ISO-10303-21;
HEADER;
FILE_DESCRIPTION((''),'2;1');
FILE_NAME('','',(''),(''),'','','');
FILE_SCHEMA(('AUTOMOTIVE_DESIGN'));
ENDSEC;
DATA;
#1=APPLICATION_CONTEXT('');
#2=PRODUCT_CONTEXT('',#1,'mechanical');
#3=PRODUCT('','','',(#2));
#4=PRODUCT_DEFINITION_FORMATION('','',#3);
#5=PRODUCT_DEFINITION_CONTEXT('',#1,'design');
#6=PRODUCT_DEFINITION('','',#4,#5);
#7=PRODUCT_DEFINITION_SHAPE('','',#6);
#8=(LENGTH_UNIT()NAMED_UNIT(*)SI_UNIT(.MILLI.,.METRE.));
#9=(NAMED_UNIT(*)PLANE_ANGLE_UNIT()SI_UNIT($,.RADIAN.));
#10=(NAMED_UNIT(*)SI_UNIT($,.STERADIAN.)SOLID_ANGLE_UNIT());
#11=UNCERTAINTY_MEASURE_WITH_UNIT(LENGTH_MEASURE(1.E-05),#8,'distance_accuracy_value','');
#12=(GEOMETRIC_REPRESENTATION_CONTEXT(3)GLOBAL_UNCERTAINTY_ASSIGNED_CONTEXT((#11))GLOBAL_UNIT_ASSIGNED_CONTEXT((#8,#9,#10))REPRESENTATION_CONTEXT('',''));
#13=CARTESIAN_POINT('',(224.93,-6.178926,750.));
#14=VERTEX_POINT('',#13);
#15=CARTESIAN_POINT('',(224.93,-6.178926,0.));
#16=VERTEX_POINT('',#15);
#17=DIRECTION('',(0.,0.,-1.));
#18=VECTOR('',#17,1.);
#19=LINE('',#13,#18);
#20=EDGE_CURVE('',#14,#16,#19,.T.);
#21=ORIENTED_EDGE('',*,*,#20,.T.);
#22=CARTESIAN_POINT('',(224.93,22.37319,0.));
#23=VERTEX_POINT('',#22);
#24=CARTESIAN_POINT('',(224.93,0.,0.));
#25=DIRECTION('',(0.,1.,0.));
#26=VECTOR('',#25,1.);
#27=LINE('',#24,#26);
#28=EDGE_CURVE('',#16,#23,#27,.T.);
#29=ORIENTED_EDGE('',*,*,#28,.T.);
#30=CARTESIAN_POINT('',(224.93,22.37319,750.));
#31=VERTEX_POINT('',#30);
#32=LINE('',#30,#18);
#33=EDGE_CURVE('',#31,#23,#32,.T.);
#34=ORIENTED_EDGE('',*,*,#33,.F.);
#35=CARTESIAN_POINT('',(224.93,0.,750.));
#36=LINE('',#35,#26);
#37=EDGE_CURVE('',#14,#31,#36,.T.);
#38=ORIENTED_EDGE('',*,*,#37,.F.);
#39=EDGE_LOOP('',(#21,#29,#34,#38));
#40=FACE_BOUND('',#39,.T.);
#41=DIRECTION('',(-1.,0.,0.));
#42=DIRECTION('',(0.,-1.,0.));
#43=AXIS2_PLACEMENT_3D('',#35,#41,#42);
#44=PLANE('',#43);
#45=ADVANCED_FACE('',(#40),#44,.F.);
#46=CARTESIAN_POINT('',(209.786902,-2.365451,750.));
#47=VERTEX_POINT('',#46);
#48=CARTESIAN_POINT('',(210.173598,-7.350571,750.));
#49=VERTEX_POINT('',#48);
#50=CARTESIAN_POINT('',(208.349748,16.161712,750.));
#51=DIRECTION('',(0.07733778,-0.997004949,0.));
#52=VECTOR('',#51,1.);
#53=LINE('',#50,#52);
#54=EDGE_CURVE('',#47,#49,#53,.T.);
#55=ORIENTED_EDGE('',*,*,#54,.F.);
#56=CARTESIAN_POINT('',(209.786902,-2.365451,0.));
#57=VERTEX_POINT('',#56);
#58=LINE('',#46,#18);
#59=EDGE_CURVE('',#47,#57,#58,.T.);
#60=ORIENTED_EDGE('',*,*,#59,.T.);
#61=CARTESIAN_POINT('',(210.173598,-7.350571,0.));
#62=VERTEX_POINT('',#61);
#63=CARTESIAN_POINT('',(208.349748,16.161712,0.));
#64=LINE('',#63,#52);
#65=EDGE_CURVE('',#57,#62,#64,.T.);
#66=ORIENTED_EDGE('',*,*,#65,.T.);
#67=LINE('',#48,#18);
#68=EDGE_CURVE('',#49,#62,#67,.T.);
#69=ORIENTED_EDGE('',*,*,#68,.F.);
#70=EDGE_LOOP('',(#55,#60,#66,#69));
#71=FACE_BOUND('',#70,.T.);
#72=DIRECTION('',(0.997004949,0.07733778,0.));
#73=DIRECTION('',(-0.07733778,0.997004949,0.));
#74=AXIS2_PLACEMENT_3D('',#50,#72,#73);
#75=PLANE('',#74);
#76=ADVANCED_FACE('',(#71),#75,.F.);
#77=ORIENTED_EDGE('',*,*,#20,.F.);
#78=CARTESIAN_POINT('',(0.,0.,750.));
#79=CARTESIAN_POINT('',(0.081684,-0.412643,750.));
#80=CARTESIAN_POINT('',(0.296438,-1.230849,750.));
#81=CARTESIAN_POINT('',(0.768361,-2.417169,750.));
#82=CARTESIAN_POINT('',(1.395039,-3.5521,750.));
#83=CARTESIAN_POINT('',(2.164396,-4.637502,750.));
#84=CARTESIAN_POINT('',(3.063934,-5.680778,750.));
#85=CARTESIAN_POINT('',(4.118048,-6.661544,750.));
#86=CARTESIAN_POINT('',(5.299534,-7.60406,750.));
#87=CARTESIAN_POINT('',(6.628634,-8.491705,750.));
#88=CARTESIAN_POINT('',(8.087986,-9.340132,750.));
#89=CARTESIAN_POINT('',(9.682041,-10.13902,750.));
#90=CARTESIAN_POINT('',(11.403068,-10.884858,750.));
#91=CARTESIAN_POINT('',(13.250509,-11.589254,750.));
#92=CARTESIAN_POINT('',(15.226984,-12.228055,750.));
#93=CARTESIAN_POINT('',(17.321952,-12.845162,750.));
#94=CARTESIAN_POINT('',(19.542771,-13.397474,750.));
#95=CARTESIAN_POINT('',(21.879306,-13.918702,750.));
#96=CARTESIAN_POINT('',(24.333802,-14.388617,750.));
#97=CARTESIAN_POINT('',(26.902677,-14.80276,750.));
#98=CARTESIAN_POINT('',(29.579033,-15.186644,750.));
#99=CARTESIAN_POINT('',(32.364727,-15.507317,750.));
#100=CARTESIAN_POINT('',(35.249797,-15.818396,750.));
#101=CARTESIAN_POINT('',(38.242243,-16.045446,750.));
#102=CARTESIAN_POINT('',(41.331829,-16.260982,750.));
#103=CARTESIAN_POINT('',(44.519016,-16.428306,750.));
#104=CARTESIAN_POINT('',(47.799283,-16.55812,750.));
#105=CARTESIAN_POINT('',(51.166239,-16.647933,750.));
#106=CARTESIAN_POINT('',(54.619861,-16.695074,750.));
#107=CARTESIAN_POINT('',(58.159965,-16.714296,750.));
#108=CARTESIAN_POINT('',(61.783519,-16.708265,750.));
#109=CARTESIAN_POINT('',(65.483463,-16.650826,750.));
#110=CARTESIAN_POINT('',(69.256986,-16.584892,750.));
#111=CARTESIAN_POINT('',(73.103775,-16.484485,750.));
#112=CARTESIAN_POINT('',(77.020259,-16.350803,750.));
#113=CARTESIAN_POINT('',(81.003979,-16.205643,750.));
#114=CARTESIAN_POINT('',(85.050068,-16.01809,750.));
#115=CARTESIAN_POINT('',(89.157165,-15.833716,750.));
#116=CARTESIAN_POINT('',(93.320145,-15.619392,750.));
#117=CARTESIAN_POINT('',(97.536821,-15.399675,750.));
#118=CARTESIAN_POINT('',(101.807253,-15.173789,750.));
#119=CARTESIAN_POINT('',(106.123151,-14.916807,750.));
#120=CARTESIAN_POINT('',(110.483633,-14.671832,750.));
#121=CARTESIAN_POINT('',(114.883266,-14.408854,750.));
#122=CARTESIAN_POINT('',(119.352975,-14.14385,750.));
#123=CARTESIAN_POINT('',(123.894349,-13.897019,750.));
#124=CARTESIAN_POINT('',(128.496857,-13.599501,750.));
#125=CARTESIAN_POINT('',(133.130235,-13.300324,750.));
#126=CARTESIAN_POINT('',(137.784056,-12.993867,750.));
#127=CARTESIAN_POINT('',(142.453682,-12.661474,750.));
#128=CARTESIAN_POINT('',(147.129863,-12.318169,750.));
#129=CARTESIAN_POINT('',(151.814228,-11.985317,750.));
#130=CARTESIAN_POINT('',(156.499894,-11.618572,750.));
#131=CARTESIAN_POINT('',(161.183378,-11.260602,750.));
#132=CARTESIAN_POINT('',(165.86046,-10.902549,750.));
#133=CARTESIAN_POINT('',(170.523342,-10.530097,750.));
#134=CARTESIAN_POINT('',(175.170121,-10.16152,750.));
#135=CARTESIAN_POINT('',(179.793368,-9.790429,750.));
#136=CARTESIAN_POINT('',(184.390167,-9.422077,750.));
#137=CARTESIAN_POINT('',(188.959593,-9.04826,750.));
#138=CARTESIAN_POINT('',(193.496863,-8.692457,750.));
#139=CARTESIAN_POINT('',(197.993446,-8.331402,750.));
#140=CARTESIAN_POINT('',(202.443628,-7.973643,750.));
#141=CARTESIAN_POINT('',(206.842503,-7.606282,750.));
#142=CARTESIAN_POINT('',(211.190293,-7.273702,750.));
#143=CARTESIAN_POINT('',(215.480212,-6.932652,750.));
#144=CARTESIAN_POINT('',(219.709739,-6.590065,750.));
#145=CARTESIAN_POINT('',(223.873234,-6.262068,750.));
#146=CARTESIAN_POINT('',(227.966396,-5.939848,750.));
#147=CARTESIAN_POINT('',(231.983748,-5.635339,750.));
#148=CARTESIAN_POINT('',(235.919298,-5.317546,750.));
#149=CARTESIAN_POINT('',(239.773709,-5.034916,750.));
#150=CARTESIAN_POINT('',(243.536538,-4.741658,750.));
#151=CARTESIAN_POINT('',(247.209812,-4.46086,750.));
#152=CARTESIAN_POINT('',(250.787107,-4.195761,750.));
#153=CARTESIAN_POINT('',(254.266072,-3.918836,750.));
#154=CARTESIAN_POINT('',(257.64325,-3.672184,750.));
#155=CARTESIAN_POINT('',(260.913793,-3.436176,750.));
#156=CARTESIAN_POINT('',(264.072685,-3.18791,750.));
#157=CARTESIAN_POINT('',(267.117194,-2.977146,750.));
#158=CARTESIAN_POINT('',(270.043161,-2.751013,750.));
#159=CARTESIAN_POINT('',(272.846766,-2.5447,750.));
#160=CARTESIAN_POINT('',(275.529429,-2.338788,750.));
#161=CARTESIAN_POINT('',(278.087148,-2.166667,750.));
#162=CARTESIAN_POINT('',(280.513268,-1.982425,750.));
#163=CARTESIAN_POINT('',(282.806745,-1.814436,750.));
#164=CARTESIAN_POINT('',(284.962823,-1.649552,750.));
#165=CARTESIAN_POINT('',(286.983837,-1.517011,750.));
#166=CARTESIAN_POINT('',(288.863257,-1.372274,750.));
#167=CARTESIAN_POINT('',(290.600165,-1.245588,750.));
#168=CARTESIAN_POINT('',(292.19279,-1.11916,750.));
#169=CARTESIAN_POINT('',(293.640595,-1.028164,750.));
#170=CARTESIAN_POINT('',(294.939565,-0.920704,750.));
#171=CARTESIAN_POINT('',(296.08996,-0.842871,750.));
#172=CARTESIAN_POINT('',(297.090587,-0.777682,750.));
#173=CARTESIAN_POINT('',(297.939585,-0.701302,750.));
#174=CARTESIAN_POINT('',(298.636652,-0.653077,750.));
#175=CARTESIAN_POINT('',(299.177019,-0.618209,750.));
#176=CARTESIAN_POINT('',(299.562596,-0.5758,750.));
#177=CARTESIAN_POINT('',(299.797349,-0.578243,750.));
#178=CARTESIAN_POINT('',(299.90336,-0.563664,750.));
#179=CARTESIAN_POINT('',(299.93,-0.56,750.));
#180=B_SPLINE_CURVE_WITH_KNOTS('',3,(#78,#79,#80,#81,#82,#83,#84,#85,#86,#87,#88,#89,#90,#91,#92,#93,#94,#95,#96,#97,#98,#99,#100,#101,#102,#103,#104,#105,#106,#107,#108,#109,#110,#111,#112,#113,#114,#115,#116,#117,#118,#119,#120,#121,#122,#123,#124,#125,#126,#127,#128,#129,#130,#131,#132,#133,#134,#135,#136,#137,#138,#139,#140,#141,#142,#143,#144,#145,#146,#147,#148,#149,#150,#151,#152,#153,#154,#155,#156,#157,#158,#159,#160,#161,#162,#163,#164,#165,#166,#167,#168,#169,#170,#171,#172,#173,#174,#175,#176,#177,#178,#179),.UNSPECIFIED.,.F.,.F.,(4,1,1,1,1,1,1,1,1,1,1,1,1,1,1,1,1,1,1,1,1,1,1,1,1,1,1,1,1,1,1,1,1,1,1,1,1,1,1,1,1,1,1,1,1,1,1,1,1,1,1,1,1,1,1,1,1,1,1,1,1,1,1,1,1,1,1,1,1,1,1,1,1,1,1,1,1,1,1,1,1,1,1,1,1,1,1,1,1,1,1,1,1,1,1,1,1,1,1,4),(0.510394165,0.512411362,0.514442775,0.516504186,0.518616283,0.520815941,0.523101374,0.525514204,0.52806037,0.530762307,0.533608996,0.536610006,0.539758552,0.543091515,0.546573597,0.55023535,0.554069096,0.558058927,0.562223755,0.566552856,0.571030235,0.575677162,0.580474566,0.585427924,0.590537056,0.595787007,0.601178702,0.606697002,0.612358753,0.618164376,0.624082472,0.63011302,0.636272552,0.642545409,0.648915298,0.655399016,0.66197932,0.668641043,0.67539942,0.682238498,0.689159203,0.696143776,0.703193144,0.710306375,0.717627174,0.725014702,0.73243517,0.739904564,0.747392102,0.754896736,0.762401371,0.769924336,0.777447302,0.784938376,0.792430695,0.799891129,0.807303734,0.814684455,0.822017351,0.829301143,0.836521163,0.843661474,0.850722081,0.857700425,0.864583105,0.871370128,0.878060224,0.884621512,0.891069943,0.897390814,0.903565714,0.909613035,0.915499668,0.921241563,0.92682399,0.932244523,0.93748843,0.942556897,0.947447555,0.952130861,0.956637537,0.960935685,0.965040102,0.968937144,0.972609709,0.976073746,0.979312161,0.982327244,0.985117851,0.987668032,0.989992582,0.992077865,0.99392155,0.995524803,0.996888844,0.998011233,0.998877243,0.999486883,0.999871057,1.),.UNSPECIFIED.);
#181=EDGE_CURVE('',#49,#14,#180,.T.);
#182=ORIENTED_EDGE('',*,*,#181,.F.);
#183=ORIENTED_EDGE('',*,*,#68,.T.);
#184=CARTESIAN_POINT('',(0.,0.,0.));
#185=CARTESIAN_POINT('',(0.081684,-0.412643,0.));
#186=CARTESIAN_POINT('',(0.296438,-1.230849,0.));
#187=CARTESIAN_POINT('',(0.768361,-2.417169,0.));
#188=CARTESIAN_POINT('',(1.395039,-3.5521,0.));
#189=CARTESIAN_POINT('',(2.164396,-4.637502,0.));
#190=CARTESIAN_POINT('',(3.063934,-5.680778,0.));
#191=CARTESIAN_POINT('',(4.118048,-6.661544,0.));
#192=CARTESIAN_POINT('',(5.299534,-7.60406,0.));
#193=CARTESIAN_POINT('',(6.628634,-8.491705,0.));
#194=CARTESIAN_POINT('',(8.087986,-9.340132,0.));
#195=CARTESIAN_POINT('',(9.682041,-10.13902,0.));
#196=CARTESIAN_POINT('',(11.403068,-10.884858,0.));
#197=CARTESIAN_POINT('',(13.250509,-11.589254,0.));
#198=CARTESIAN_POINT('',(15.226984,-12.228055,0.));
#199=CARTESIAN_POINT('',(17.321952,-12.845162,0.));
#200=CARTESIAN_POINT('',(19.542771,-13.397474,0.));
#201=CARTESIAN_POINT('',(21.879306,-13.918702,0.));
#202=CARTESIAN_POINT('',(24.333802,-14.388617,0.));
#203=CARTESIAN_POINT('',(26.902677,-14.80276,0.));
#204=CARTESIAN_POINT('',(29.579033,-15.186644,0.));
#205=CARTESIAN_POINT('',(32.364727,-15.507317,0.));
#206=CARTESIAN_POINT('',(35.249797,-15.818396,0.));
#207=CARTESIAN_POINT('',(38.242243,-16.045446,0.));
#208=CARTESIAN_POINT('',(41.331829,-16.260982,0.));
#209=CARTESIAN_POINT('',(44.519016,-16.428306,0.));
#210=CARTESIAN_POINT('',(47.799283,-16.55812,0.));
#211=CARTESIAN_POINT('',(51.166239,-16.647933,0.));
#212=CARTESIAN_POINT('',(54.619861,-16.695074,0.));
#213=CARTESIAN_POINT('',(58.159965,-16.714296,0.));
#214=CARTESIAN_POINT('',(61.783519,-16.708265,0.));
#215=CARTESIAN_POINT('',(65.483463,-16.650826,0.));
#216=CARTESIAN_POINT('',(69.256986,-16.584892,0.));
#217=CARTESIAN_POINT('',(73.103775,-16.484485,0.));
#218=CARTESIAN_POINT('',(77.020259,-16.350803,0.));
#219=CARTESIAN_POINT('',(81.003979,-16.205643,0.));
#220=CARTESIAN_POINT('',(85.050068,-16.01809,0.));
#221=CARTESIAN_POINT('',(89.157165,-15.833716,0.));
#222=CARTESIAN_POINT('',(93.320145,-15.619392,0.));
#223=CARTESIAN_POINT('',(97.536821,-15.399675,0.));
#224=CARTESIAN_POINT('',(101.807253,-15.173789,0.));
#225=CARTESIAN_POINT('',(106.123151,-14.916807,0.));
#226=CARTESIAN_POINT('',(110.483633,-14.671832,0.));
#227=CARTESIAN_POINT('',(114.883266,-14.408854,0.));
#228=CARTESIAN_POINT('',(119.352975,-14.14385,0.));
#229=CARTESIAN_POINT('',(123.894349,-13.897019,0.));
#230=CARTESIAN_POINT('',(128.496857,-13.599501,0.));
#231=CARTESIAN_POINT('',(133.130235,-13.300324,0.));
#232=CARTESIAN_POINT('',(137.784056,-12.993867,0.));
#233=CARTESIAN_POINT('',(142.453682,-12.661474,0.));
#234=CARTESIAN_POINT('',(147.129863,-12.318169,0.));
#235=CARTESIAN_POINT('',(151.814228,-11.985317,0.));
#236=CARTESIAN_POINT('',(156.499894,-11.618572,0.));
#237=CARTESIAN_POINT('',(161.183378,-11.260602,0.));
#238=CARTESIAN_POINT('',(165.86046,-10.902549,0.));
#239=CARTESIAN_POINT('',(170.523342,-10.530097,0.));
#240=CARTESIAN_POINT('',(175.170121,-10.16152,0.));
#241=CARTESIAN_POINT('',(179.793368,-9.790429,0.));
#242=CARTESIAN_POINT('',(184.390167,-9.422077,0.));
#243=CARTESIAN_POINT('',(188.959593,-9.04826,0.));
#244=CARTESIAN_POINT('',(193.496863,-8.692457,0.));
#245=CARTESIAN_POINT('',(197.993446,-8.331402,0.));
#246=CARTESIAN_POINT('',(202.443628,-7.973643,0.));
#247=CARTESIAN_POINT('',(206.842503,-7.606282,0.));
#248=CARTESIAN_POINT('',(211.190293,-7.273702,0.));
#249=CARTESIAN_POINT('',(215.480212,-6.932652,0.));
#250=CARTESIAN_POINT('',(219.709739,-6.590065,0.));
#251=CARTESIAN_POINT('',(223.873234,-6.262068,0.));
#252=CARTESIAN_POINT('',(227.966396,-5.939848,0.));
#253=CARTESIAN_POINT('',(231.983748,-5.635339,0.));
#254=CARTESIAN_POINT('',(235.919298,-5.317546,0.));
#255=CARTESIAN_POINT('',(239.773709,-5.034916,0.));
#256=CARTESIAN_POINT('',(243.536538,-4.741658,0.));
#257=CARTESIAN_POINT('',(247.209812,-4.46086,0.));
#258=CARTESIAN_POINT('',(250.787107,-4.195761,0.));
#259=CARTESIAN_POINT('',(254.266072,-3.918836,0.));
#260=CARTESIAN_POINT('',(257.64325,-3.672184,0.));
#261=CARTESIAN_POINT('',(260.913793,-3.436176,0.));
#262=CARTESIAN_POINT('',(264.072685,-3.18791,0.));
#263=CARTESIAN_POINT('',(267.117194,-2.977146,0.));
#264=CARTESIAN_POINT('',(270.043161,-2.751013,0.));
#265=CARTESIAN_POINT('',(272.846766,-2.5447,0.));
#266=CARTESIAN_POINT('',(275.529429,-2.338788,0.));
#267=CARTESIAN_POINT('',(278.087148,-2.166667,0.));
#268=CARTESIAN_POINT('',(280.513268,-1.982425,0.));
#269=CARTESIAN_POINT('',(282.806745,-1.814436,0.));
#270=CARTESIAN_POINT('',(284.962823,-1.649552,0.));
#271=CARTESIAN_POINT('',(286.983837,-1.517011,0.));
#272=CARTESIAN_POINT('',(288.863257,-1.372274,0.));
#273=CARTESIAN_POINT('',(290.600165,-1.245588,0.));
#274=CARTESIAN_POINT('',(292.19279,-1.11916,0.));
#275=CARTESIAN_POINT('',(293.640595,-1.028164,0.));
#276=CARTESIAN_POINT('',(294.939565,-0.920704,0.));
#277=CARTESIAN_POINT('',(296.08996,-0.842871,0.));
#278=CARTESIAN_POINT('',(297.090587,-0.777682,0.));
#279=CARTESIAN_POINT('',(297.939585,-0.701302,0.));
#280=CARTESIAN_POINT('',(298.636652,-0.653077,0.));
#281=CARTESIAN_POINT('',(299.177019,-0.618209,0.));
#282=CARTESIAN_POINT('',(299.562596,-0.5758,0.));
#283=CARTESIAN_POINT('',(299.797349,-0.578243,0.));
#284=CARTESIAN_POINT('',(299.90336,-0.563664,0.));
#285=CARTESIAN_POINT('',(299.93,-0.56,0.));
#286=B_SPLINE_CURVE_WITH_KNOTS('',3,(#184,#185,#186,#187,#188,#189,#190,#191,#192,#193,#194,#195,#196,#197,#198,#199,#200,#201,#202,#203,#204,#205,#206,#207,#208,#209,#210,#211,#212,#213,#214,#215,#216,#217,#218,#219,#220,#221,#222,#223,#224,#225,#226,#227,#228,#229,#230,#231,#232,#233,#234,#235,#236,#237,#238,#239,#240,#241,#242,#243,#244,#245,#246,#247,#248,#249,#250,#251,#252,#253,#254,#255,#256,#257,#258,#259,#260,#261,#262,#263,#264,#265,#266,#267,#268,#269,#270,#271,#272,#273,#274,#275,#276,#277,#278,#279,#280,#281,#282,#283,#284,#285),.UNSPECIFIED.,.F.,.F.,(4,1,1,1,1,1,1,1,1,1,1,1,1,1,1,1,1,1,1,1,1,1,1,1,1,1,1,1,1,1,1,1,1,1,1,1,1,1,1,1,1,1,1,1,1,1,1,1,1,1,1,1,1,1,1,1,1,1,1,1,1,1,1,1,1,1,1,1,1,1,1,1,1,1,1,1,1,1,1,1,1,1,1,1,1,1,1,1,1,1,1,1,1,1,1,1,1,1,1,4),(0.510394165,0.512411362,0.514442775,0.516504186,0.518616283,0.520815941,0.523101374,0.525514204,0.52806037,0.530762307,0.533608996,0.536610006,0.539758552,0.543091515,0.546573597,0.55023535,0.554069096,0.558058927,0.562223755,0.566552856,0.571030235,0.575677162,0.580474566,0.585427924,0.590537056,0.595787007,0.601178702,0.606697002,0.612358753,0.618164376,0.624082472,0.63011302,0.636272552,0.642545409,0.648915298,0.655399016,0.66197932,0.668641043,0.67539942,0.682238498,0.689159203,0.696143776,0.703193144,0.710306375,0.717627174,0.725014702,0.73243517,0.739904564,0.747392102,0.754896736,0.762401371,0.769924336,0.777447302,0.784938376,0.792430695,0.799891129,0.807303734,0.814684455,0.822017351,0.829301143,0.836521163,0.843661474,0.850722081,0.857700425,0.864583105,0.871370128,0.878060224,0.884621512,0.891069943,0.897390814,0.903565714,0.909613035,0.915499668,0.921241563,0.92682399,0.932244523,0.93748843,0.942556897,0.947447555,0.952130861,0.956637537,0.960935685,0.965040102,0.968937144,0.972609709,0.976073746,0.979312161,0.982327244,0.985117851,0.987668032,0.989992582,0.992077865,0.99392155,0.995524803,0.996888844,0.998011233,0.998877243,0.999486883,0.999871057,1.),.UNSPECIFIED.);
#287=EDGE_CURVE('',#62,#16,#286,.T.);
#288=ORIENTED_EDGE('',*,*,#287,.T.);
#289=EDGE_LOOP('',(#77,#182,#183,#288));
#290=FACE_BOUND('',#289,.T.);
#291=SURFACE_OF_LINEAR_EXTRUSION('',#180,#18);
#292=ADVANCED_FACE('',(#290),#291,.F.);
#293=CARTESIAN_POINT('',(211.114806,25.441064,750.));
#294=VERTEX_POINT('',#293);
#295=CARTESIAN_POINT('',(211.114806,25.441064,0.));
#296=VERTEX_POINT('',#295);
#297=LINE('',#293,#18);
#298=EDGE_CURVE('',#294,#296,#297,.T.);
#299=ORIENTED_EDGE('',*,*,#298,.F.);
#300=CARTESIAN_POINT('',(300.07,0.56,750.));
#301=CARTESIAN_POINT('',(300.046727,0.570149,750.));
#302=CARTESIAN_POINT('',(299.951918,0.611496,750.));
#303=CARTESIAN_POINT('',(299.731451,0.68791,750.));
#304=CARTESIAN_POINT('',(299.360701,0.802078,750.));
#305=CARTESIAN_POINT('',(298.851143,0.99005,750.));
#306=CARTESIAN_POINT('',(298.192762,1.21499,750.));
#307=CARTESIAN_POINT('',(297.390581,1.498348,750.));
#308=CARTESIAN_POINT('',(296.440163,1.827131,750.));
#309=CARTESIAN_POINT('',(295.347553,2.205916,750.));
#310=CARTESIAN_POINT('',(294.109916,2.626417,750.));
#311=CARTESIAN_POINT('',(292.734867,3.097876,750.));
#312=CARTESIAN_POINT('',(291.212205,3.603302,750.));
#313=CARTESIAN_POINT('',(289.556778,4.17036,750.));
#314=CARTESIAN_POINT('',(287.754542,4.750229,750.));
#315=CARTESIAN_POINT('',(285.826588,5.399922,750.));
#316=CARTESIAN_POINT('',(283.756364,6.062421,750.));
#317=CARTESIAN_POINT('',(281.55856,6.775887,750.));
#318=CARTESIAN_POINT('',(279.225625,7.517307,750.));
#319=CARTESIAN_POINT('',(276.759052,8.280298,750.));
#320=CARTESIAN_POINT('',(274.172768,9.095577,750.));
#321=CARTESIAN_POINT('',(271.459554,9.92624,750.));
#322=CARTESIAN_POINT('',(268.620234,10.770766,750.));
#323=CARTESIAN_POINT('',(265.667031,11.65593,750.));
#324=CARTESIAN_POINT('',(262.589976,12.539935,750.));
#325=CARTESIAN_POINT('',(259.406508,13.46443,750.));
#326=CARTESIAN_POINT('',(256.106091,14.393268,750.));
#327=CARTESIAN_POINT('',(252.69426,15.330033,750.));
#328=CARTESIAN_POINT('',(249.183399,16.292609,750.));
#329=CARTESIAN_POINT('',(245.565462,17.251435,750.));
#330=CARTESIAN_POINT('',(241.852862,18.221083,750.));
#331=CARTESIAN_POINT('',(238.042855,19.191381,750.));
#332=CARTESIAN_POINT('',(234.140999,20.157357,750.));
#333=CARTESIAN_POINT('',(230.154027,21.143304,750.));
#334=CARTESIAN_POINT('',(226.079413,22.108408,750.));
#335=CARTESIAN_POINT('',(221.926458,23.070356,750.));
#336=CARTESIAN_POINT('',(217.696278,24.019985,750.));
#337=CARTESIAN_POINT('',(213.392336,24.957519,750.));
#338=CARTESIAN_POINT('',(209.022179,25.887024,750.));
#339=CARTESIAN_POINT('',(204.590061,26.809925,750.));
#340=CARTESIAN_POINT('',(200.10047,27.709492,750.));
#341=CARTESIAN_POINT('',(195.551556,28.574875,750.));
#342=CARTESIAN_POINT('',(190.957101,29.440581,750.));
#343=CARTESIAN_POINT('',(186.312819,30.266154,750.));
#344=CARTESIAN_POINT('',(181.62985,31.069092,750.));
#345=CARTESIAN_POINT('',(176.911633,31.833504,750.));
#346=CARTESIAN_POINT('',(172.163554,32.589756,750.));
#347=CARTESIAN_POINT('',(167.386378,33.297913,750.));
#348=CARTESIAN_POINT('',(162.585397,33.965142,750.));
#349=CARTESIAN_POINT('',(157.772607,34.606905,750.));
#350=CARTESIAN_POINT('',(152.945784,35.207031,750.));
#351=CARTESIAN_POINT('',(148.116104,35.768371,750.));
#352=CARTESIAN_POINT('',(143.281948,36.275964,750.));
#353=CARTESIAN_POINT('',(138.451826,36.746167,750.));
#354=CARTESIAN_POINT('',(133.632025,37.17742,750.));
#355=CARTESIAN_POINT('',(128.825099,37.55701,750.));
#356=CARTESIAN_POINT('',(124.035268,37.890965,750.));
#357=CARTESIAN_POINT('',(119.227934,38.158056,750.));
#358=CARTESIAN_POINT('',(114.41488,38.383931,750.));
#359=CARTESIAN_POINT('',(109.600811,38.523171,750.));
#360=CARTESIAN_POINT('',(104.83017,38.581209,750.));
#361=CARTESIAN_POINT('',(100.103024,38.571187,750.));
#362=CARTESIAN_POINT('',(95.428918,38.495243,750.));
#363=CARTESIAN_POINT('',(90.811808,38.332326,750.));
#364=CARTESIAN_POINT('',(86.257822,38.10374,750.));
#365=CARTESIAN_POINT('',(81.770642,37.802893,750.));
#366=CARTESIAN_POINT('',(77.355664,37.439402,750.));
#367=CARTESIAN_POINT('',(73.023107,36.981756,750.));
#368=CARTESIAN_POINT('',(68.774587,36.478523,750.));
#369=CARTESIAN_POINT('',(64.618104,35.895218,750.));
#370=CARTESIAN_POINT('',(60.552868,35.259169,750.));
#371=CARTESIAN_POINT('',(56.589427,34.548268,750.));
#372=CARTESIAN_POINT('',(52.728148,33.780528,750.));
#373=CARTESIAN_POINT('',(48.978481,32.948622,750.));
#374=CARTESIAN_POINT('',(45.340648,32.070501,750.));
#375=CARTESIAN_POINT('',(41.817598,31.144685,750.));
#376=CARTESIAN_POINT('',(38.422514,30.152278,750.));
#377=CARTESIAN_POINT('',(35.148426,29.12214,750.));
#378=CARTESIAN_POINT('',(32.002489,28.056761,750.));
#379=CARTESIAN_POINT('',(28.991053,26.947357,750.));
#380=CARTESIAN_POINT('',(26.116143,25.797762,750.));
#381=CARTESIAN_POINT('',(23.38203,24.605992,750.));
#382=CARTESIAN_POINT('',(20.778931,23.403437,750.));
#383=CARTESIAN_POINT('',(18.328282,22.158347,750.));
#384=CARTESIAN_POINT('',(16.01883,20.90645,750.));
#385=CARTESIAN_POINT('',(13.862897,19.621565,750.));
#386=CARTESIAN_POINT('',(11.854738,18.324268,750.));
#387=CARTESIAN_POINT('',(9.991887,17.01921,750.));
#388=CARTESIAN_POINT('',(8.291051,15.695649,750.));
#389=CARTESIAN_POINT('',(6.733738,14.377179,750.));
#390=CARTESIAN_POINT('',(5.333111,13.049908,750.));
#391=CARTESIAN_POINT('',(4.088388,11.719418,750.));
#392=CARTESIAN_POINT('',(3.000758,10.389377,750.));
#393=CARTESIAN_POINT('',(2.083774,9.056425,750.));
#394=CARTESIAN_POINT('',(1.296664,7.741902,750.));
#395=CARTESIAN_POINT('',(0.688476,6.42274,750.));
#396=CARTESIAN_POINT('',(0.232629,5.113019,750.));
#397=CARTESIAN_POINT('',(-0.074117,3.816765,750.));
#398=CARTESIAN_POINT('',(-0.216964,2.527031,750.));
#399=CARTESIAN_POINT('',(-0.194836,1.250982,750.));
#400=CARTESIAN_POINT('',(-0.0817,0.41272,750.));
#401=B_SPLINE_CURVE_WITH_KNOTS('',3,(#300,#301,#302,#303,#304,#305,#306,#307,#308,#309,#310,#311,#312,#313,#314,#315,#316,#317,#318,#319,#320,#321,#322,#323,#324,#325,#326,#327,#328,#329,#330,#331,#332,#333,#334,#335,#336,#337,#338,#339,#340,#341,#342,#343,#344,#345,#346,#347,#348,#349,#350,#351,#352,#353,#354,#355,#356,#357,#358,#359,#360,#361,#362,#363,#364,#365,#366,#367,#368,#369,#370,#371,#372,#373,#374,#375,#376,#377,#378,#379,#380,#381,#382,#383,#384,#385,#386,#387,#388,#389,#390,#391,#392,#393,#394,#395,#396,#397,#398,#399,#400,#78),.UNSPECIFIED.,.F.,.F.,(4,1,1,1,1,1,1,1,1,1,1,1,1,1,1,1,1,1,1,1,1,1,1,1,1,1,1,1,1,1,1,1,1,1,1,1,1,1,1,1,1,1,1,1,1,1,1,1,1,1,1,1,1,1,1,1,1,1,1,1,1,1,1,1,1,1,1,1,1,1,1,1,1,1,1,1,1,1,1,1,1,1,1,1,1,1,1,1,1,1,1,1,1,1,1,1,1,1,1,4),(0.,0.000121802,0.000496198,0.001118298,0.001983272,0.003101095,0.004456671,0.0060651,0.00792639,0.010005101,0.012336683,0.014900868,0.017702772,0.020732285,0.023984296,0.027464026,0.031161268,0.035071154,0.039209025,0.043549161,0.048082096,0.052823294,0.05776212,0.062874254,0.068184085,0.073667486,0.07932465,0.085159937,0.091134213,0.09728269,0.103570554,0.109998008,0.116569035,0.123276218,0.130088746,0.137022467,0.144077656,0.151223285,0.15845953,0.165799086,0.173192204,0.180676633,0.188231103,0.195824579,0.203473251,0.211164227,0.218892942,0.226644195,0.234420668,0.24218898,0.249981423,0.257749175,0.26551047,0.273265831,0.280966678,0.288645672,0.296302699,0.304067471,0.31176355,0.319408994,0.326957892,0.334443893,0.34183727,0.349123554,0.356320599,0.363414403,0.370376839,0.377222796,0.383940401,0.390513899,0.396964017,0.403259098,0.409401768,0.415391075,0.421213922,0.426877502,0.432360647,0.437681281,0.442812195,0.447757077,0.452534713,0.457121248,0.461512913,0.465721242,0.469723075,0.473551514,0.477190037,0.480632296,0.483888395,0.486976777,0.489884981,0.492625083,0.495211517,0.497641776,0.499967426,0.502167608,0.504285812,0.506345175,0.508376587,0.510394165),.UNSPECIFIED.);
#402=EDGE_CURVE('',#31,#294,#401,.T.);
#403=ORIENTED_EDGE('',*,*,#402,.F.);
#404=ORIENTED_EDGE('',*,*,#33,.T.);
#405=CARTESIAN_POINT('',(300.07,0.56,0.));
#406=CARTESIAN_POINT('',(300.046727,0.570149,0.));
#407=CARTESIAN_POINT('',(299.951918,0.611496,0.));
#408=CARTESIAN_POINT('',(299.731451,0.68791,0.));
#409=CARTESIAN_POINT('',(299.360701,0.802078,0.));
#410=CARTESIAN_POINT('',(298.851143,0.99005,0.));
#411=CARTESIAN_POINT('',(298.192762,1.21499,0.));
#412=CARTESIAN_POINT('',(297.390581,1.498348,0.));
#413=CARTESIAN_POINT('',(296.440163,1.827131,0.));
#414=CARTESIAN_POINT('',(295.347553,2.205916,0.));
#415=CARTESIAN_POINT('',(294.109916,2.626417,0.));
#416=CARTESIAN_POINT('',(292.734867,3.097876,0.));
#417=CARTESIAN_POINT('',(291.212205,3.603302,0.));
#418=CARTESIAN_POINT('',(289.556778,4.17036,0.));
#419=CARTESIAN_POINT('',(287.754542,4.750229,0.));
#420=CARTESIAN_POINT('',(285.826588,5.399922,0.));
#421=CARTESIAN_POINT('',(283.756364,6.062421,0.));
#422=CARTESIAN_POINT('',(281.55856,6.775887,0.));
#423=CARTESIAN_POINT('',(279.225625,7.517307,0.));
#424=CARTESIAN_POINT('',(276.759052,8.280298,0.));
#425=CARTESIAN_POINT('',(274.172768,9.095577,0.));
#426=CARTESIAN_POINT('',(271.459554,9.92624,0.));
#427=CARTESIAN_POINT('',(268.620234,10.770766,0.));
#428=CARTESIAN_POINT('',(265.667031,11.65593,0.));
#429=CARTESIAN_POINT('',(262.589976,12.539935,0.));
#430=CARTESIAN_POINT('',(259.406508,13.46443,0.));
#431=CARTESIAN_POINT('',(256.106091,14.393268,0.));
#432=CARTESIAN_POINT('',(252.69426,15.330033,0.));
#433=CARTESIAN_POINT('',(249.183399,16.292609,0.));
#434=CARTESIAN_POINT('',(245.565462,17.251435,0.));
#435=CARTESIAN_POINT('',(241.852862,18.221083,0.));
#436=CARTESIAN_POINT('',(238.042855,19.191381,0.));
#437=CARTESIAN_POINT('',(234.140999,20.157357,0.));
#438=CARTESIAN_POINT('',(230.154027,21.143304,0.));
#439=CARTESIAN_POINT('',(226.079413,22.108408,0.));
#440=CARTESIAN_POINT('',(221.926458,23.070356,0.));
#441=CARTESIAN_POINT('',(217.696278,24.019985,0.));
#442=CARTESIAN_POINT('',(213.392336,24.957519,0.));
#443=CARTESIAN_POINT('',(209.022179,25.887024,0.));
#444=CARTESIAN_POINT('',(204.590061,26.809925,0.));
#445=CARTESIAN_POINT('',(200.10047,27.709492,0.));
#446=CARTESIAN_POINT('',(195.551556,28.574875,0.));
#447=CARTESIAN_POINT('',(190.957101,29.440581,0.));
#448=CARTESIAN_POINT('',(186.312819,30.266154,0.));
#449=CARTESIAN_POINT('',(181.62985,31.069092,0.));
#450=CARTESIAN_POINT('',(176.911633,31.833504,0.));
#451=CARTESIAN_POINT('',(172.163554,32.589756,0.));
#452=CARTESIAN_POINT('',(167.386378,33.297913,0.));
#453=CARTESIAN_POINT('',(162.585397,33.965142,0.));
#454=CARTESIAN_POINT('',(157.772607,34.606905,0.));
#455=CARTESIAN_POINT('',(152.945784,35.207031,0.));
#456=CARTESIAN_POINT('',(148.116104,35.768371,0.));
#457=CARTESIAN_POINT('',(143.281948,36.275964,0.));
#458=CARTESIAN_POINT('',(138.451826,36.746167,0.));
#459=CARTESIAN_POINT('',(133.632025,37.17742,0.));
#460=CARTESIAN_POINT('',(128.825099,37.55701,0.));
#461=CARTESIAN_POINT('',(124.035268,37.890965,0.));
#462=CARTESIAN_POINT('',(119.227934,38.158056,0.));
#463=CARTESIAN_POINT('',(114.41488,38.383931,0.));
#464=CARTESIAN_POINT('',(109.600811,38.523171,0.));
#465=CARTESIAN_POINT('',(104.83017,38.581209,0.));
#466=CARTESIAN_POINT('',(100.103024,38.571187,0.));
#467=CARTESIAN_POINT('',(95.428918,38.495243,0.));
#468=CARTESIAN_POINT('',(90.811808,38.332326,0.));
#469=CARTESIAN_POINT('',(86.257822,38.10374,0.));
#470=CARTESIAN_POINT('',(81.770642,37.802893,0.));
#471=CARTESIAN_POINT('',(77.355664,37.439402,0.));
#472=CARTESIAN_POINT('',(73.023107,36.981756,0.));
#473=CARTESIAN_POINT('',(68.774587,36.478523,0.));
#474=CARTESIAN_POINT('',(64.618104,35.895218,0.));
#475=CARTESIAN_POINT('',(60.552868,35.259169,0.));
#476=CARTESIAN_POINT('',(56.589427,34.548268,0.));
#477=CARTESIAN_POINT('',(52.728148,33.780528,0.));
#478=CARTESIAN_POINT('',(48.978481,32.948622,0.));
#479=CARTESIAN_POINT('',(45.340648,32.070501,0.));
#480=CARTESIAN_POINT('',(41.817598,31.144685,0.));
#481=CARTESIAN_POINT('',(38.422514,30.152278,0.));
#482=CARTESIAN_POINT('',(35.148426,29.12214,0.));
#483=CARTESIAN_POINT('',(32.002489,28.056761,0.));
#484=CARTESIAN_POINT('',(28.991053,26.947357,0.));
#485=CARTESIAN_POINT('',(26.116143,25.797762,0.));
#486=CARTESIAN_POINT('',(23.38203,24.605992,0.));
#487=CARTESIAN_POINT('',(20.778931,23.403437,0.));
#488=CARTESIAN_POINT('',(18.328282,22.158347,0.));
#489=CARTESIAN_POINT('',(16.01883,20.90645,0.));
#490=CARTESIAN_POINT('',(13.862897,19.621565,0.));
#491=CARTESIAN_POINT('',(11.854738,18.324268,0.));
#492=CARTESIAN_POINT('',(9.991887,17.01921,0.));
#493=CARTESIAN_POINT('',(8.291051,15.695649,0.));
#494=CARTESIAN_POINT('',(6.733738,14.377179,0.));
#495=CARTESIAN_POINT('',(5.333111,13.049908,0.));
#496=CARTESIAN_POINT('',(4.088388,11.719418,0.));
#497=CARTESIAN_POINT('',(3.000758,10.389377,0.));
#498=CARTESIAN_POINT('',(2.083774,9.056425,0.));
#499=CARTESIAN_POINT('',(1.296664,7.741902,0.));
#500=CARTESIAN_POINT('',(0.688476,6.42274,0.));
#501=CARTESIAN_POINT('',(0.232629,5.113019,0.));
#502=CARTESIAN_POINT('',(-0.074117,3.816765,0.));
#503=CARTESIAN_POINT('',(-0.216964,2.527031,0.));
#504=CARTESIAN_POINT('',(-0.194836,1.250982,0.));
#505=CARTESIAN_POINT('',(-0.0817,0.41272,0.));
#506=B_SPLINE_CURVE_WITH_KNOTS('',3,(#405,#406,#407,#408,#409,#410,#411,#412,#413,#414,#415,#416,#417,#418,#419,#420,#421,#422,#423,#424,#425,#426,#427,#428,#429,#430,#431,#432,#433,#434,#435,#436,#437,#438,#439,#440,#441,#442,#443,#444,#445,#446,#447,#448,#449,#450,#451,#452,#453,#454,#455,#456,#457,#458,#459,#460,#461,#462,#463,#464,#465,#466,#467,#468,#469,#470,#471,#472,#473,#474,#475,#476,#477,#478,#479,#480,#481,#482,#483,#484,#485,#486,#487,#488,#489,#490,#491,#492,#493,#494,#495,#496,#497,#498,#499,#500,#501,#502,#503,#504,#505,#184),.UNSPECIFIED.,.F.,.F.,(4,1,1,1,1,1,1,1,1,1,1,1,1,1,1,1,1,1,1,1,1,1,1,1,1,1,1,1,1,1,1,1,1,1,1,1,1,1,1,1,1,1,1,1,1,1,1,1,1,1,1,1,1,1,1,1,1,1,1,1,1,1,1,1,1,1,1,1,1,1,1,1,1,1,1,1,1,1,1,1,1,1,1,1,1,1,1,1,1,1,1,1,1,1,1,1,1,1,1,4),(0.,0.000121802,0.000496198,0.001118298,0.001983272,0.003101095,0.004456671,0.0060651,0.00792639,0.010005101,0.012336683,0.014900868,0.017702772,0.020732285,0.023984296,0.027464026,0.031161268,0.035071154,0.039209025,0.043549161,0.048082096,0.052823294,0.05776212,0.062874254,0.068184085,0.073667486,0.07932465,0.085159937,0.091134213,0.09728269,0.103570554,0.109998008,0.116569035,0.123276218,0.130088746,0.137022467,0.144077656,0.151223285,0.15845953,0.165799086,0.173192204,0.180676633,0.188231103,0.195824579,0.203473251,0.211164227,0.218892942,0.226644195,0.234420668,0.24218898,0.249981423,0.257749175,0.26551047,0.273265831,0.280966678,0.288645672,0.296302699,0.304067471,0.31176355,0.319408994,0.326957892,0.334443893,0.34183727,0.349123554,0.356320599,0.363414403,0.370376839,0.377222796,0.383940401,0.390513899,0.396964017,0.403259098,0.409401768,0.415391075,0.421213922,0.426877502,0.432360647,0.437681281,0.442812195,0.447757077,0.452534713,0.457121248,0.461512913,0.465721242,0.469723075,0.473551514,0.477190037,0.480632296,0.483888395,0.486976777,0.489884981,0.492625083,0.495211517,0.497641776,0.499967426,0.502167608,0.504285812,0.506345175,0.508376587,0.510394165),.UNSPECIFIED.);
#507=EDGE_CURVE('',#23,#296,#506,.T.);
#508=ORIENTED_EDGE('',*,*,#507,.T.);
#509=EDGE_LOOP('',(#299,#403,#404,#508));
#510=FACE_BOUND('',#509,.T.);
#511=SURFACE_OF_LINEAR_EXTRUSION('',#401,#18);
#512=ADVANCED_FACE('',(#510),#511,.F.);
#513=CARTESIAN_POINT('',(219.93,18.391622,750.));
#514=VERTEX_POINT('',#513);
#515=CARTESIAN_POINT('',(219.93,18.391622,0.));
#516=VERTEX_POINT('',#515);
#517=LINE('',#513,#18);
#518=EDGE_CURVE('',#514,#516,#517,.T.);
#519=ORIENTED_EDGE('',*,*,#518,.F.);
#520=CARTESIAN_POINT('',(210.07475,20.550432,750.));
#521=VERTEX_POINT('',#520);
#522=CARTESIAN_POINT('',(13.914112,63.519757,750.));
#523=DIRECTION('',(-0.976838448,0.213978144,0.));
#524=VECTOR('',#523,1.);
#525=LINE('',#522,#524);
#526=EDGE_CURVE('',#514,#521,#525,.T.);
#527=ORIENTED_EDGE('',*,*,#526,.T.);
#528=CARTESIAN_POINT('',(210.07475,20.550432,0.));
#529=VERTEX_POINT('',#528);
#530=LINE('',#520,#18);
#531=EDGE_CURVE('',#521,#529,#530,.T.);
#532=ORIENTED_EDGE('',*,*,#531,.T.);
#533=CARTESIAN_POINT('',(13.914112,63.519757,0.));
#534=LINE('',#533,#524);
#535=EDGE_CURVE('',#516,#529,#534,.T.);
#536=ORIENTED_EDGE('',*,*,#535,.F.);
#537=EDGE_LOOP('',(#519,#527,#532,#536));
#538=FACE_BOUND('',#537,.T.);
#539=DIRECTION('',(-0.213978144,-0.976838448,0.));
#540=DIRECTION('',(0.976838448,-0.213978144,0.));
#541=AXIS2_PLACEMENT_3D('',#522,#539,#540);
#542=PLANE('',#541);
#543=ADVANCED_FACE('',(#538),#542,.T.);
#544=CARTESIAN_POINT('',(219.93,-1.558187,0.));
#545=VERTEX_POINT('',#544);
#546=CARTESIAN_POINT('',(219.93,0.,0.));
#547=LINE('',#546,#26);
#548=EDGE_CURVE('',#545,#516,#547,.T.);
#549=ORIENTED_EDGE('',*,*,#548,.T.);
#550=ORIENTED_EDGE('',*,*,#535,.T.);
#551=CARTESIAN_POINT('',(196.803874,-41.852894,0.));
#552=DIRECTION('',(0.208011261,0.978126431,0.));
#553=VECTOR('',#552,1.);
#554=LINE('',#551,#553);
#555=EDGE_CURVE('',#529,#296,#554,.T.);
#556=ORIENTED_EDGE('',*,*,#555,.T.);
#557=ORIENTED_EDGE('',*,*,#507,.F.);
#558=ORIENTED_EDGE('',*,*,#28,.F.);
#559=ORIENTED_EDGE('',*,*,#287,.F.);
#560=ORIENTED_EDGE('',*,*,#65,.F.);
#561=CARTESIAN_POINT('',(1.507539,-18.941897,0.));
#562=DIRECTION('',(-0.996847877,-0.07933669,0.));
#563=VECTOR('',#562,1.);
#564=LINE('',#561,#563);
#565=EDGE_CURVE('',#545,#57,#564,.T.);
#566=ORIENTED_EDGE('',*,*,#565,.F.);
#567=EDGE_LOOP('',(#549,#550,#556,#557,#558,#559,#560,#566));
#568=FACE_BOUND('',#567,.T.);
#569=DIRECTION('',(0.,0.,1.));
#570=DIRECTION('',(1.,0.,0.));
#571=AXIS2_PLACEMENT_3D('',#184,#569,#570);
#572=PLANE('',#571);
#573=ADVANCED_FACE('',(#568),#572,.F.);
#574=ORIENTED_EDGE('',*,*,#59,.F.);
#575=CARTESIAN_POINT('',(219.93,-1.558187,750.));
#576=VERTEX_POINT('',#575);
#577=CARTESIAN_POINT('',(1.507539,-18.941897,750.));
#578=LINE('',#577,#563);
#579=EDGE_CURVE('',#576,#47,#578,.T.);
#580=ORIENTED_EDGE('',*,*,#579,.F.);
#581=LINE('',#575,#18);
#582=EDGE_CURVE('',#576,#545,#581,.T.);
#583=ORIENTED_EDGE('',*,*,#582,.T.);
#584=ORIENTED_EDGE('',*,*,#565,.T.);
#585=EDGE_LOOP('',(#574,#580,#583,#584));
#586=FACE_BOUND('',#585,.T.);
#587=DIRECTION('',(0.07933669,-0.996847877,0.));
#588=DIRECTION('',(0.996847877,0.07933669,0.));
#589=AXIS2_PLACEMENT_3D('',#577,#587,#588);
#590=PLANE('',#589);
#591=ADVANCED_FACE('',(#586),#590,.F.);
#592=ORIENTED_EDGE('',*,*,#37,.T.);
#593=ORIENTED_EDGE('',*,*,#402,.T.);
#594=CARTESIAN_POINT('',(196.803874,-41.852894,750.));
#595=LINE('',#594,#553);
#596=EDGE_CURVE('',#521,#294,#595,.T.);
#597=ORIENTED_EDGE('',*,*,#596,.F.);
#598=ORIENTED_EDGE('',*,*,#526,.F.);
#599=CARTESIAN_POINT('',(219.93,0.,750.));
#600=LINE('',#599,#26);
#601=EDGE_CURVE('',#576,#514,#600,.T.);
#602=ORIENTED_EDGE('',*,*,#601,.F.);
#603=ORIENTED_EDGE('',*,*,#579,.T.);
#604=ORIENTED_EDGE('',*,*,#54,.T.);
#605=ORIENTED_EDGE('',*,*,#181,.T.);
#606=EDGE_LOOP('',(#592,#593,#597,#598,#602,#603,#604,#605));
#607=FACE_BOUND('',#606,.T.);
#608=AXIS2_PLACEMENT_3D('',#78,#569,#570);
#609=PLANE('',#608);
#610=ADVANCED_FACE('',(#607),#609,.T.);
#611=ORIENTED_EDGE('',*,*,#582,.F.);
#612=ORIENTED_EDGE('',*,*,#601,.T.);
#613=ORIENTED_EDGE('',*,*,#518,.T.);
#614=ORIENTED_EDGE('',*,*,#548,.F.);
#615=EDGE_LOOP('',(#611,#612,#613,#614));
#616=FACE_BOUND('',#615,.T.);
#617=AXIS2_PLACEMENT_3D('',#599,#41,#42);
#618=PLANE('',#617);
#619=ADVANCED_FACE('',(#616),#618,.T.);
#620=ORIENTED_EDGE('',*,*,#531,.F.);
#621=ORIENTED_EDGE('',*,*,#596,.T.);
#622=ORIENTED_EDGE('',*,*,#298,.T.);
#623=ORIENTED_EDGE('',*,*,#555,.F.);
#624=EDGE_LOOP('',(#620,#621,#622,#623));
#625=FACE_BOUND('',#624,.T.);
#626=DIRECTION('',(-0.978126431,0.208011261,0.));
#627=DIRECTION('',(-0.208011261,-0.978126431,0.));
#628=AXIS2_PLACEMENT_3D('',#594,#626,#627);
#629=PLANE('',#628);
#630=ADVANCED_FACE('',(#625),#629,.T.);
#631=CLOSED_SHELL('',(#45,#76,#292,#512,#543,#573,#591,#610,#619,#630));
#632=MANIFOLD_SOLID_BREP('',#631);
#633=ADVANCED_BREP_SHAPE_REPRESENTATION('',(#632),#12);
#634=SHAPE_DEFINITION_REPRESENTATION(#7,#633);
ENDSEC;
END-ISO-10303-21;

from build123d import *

# Parameters (mm, degrees)
BOSS_EXTRUDE1_DEPTH = 750


with BuildPart() as part:
    # Master sketch-Wing Geometry Master Sketc → Boss-Extrude1 (new body)
    with BuildSketch(Plane.XY):
        with BuildLine():
            Line((224.93, -6.178926254), (224.93, 22.373189537))
            add(Edge.make_bspline(
                [(224.93, 22.373189537), (223.937151031, 22.604229635), (221.53569088, 23.158078559), (217.696277573, 24.019984904), (214.083050592, 24.807059628), (211.880072571, 25.27832033), (211.114806417, 25.441064095)],
                knots=[0.125197771, 0.125197771, 0.125197771, 0.125197771, 0.130088746, 0.137022467, 0.144077656, 0.147831525, 0.147831525, 0.147831525, 0.147831525], degree=3))
            Line((211.114806417, 25.441064095), (210.07475011, 20.55043194))
            Line((210.07475011, 20.55043194), (219.93, 18.391622486))
            Line((219.93, 18.391622486), (219.93, -1.558186688))
            Line((219.93, -1.558186688), (209.78690169, -2.365451127))
            Line((209.78690169, -2.365451127), (210.173597999, -7.350571372))
            add(Edge.make_bspline(
                [(210.173597999, -7.350571372), (210.519069964, -7.323773075), (212.294721257, -7.18589941), (215.480211959, -6.932652125), (219.709739235, -6.590064586), (222.853288837, -6.342418671), (224.586664849, -6.205927526), (224.93, -6.178926254)],
                knots=[0.856037867, 0.856037867, 0.856037867, 0.856037867, 0.857700425, 0.864583105, 0.871370128, 0.878060224, 0.879712638, 0.879712638, 0.879712638, 0.879712638], degree=3))
        make_face()
    extrude(amount=BOSS_EXTRUDE1_DEPTH)


solid = part.part
